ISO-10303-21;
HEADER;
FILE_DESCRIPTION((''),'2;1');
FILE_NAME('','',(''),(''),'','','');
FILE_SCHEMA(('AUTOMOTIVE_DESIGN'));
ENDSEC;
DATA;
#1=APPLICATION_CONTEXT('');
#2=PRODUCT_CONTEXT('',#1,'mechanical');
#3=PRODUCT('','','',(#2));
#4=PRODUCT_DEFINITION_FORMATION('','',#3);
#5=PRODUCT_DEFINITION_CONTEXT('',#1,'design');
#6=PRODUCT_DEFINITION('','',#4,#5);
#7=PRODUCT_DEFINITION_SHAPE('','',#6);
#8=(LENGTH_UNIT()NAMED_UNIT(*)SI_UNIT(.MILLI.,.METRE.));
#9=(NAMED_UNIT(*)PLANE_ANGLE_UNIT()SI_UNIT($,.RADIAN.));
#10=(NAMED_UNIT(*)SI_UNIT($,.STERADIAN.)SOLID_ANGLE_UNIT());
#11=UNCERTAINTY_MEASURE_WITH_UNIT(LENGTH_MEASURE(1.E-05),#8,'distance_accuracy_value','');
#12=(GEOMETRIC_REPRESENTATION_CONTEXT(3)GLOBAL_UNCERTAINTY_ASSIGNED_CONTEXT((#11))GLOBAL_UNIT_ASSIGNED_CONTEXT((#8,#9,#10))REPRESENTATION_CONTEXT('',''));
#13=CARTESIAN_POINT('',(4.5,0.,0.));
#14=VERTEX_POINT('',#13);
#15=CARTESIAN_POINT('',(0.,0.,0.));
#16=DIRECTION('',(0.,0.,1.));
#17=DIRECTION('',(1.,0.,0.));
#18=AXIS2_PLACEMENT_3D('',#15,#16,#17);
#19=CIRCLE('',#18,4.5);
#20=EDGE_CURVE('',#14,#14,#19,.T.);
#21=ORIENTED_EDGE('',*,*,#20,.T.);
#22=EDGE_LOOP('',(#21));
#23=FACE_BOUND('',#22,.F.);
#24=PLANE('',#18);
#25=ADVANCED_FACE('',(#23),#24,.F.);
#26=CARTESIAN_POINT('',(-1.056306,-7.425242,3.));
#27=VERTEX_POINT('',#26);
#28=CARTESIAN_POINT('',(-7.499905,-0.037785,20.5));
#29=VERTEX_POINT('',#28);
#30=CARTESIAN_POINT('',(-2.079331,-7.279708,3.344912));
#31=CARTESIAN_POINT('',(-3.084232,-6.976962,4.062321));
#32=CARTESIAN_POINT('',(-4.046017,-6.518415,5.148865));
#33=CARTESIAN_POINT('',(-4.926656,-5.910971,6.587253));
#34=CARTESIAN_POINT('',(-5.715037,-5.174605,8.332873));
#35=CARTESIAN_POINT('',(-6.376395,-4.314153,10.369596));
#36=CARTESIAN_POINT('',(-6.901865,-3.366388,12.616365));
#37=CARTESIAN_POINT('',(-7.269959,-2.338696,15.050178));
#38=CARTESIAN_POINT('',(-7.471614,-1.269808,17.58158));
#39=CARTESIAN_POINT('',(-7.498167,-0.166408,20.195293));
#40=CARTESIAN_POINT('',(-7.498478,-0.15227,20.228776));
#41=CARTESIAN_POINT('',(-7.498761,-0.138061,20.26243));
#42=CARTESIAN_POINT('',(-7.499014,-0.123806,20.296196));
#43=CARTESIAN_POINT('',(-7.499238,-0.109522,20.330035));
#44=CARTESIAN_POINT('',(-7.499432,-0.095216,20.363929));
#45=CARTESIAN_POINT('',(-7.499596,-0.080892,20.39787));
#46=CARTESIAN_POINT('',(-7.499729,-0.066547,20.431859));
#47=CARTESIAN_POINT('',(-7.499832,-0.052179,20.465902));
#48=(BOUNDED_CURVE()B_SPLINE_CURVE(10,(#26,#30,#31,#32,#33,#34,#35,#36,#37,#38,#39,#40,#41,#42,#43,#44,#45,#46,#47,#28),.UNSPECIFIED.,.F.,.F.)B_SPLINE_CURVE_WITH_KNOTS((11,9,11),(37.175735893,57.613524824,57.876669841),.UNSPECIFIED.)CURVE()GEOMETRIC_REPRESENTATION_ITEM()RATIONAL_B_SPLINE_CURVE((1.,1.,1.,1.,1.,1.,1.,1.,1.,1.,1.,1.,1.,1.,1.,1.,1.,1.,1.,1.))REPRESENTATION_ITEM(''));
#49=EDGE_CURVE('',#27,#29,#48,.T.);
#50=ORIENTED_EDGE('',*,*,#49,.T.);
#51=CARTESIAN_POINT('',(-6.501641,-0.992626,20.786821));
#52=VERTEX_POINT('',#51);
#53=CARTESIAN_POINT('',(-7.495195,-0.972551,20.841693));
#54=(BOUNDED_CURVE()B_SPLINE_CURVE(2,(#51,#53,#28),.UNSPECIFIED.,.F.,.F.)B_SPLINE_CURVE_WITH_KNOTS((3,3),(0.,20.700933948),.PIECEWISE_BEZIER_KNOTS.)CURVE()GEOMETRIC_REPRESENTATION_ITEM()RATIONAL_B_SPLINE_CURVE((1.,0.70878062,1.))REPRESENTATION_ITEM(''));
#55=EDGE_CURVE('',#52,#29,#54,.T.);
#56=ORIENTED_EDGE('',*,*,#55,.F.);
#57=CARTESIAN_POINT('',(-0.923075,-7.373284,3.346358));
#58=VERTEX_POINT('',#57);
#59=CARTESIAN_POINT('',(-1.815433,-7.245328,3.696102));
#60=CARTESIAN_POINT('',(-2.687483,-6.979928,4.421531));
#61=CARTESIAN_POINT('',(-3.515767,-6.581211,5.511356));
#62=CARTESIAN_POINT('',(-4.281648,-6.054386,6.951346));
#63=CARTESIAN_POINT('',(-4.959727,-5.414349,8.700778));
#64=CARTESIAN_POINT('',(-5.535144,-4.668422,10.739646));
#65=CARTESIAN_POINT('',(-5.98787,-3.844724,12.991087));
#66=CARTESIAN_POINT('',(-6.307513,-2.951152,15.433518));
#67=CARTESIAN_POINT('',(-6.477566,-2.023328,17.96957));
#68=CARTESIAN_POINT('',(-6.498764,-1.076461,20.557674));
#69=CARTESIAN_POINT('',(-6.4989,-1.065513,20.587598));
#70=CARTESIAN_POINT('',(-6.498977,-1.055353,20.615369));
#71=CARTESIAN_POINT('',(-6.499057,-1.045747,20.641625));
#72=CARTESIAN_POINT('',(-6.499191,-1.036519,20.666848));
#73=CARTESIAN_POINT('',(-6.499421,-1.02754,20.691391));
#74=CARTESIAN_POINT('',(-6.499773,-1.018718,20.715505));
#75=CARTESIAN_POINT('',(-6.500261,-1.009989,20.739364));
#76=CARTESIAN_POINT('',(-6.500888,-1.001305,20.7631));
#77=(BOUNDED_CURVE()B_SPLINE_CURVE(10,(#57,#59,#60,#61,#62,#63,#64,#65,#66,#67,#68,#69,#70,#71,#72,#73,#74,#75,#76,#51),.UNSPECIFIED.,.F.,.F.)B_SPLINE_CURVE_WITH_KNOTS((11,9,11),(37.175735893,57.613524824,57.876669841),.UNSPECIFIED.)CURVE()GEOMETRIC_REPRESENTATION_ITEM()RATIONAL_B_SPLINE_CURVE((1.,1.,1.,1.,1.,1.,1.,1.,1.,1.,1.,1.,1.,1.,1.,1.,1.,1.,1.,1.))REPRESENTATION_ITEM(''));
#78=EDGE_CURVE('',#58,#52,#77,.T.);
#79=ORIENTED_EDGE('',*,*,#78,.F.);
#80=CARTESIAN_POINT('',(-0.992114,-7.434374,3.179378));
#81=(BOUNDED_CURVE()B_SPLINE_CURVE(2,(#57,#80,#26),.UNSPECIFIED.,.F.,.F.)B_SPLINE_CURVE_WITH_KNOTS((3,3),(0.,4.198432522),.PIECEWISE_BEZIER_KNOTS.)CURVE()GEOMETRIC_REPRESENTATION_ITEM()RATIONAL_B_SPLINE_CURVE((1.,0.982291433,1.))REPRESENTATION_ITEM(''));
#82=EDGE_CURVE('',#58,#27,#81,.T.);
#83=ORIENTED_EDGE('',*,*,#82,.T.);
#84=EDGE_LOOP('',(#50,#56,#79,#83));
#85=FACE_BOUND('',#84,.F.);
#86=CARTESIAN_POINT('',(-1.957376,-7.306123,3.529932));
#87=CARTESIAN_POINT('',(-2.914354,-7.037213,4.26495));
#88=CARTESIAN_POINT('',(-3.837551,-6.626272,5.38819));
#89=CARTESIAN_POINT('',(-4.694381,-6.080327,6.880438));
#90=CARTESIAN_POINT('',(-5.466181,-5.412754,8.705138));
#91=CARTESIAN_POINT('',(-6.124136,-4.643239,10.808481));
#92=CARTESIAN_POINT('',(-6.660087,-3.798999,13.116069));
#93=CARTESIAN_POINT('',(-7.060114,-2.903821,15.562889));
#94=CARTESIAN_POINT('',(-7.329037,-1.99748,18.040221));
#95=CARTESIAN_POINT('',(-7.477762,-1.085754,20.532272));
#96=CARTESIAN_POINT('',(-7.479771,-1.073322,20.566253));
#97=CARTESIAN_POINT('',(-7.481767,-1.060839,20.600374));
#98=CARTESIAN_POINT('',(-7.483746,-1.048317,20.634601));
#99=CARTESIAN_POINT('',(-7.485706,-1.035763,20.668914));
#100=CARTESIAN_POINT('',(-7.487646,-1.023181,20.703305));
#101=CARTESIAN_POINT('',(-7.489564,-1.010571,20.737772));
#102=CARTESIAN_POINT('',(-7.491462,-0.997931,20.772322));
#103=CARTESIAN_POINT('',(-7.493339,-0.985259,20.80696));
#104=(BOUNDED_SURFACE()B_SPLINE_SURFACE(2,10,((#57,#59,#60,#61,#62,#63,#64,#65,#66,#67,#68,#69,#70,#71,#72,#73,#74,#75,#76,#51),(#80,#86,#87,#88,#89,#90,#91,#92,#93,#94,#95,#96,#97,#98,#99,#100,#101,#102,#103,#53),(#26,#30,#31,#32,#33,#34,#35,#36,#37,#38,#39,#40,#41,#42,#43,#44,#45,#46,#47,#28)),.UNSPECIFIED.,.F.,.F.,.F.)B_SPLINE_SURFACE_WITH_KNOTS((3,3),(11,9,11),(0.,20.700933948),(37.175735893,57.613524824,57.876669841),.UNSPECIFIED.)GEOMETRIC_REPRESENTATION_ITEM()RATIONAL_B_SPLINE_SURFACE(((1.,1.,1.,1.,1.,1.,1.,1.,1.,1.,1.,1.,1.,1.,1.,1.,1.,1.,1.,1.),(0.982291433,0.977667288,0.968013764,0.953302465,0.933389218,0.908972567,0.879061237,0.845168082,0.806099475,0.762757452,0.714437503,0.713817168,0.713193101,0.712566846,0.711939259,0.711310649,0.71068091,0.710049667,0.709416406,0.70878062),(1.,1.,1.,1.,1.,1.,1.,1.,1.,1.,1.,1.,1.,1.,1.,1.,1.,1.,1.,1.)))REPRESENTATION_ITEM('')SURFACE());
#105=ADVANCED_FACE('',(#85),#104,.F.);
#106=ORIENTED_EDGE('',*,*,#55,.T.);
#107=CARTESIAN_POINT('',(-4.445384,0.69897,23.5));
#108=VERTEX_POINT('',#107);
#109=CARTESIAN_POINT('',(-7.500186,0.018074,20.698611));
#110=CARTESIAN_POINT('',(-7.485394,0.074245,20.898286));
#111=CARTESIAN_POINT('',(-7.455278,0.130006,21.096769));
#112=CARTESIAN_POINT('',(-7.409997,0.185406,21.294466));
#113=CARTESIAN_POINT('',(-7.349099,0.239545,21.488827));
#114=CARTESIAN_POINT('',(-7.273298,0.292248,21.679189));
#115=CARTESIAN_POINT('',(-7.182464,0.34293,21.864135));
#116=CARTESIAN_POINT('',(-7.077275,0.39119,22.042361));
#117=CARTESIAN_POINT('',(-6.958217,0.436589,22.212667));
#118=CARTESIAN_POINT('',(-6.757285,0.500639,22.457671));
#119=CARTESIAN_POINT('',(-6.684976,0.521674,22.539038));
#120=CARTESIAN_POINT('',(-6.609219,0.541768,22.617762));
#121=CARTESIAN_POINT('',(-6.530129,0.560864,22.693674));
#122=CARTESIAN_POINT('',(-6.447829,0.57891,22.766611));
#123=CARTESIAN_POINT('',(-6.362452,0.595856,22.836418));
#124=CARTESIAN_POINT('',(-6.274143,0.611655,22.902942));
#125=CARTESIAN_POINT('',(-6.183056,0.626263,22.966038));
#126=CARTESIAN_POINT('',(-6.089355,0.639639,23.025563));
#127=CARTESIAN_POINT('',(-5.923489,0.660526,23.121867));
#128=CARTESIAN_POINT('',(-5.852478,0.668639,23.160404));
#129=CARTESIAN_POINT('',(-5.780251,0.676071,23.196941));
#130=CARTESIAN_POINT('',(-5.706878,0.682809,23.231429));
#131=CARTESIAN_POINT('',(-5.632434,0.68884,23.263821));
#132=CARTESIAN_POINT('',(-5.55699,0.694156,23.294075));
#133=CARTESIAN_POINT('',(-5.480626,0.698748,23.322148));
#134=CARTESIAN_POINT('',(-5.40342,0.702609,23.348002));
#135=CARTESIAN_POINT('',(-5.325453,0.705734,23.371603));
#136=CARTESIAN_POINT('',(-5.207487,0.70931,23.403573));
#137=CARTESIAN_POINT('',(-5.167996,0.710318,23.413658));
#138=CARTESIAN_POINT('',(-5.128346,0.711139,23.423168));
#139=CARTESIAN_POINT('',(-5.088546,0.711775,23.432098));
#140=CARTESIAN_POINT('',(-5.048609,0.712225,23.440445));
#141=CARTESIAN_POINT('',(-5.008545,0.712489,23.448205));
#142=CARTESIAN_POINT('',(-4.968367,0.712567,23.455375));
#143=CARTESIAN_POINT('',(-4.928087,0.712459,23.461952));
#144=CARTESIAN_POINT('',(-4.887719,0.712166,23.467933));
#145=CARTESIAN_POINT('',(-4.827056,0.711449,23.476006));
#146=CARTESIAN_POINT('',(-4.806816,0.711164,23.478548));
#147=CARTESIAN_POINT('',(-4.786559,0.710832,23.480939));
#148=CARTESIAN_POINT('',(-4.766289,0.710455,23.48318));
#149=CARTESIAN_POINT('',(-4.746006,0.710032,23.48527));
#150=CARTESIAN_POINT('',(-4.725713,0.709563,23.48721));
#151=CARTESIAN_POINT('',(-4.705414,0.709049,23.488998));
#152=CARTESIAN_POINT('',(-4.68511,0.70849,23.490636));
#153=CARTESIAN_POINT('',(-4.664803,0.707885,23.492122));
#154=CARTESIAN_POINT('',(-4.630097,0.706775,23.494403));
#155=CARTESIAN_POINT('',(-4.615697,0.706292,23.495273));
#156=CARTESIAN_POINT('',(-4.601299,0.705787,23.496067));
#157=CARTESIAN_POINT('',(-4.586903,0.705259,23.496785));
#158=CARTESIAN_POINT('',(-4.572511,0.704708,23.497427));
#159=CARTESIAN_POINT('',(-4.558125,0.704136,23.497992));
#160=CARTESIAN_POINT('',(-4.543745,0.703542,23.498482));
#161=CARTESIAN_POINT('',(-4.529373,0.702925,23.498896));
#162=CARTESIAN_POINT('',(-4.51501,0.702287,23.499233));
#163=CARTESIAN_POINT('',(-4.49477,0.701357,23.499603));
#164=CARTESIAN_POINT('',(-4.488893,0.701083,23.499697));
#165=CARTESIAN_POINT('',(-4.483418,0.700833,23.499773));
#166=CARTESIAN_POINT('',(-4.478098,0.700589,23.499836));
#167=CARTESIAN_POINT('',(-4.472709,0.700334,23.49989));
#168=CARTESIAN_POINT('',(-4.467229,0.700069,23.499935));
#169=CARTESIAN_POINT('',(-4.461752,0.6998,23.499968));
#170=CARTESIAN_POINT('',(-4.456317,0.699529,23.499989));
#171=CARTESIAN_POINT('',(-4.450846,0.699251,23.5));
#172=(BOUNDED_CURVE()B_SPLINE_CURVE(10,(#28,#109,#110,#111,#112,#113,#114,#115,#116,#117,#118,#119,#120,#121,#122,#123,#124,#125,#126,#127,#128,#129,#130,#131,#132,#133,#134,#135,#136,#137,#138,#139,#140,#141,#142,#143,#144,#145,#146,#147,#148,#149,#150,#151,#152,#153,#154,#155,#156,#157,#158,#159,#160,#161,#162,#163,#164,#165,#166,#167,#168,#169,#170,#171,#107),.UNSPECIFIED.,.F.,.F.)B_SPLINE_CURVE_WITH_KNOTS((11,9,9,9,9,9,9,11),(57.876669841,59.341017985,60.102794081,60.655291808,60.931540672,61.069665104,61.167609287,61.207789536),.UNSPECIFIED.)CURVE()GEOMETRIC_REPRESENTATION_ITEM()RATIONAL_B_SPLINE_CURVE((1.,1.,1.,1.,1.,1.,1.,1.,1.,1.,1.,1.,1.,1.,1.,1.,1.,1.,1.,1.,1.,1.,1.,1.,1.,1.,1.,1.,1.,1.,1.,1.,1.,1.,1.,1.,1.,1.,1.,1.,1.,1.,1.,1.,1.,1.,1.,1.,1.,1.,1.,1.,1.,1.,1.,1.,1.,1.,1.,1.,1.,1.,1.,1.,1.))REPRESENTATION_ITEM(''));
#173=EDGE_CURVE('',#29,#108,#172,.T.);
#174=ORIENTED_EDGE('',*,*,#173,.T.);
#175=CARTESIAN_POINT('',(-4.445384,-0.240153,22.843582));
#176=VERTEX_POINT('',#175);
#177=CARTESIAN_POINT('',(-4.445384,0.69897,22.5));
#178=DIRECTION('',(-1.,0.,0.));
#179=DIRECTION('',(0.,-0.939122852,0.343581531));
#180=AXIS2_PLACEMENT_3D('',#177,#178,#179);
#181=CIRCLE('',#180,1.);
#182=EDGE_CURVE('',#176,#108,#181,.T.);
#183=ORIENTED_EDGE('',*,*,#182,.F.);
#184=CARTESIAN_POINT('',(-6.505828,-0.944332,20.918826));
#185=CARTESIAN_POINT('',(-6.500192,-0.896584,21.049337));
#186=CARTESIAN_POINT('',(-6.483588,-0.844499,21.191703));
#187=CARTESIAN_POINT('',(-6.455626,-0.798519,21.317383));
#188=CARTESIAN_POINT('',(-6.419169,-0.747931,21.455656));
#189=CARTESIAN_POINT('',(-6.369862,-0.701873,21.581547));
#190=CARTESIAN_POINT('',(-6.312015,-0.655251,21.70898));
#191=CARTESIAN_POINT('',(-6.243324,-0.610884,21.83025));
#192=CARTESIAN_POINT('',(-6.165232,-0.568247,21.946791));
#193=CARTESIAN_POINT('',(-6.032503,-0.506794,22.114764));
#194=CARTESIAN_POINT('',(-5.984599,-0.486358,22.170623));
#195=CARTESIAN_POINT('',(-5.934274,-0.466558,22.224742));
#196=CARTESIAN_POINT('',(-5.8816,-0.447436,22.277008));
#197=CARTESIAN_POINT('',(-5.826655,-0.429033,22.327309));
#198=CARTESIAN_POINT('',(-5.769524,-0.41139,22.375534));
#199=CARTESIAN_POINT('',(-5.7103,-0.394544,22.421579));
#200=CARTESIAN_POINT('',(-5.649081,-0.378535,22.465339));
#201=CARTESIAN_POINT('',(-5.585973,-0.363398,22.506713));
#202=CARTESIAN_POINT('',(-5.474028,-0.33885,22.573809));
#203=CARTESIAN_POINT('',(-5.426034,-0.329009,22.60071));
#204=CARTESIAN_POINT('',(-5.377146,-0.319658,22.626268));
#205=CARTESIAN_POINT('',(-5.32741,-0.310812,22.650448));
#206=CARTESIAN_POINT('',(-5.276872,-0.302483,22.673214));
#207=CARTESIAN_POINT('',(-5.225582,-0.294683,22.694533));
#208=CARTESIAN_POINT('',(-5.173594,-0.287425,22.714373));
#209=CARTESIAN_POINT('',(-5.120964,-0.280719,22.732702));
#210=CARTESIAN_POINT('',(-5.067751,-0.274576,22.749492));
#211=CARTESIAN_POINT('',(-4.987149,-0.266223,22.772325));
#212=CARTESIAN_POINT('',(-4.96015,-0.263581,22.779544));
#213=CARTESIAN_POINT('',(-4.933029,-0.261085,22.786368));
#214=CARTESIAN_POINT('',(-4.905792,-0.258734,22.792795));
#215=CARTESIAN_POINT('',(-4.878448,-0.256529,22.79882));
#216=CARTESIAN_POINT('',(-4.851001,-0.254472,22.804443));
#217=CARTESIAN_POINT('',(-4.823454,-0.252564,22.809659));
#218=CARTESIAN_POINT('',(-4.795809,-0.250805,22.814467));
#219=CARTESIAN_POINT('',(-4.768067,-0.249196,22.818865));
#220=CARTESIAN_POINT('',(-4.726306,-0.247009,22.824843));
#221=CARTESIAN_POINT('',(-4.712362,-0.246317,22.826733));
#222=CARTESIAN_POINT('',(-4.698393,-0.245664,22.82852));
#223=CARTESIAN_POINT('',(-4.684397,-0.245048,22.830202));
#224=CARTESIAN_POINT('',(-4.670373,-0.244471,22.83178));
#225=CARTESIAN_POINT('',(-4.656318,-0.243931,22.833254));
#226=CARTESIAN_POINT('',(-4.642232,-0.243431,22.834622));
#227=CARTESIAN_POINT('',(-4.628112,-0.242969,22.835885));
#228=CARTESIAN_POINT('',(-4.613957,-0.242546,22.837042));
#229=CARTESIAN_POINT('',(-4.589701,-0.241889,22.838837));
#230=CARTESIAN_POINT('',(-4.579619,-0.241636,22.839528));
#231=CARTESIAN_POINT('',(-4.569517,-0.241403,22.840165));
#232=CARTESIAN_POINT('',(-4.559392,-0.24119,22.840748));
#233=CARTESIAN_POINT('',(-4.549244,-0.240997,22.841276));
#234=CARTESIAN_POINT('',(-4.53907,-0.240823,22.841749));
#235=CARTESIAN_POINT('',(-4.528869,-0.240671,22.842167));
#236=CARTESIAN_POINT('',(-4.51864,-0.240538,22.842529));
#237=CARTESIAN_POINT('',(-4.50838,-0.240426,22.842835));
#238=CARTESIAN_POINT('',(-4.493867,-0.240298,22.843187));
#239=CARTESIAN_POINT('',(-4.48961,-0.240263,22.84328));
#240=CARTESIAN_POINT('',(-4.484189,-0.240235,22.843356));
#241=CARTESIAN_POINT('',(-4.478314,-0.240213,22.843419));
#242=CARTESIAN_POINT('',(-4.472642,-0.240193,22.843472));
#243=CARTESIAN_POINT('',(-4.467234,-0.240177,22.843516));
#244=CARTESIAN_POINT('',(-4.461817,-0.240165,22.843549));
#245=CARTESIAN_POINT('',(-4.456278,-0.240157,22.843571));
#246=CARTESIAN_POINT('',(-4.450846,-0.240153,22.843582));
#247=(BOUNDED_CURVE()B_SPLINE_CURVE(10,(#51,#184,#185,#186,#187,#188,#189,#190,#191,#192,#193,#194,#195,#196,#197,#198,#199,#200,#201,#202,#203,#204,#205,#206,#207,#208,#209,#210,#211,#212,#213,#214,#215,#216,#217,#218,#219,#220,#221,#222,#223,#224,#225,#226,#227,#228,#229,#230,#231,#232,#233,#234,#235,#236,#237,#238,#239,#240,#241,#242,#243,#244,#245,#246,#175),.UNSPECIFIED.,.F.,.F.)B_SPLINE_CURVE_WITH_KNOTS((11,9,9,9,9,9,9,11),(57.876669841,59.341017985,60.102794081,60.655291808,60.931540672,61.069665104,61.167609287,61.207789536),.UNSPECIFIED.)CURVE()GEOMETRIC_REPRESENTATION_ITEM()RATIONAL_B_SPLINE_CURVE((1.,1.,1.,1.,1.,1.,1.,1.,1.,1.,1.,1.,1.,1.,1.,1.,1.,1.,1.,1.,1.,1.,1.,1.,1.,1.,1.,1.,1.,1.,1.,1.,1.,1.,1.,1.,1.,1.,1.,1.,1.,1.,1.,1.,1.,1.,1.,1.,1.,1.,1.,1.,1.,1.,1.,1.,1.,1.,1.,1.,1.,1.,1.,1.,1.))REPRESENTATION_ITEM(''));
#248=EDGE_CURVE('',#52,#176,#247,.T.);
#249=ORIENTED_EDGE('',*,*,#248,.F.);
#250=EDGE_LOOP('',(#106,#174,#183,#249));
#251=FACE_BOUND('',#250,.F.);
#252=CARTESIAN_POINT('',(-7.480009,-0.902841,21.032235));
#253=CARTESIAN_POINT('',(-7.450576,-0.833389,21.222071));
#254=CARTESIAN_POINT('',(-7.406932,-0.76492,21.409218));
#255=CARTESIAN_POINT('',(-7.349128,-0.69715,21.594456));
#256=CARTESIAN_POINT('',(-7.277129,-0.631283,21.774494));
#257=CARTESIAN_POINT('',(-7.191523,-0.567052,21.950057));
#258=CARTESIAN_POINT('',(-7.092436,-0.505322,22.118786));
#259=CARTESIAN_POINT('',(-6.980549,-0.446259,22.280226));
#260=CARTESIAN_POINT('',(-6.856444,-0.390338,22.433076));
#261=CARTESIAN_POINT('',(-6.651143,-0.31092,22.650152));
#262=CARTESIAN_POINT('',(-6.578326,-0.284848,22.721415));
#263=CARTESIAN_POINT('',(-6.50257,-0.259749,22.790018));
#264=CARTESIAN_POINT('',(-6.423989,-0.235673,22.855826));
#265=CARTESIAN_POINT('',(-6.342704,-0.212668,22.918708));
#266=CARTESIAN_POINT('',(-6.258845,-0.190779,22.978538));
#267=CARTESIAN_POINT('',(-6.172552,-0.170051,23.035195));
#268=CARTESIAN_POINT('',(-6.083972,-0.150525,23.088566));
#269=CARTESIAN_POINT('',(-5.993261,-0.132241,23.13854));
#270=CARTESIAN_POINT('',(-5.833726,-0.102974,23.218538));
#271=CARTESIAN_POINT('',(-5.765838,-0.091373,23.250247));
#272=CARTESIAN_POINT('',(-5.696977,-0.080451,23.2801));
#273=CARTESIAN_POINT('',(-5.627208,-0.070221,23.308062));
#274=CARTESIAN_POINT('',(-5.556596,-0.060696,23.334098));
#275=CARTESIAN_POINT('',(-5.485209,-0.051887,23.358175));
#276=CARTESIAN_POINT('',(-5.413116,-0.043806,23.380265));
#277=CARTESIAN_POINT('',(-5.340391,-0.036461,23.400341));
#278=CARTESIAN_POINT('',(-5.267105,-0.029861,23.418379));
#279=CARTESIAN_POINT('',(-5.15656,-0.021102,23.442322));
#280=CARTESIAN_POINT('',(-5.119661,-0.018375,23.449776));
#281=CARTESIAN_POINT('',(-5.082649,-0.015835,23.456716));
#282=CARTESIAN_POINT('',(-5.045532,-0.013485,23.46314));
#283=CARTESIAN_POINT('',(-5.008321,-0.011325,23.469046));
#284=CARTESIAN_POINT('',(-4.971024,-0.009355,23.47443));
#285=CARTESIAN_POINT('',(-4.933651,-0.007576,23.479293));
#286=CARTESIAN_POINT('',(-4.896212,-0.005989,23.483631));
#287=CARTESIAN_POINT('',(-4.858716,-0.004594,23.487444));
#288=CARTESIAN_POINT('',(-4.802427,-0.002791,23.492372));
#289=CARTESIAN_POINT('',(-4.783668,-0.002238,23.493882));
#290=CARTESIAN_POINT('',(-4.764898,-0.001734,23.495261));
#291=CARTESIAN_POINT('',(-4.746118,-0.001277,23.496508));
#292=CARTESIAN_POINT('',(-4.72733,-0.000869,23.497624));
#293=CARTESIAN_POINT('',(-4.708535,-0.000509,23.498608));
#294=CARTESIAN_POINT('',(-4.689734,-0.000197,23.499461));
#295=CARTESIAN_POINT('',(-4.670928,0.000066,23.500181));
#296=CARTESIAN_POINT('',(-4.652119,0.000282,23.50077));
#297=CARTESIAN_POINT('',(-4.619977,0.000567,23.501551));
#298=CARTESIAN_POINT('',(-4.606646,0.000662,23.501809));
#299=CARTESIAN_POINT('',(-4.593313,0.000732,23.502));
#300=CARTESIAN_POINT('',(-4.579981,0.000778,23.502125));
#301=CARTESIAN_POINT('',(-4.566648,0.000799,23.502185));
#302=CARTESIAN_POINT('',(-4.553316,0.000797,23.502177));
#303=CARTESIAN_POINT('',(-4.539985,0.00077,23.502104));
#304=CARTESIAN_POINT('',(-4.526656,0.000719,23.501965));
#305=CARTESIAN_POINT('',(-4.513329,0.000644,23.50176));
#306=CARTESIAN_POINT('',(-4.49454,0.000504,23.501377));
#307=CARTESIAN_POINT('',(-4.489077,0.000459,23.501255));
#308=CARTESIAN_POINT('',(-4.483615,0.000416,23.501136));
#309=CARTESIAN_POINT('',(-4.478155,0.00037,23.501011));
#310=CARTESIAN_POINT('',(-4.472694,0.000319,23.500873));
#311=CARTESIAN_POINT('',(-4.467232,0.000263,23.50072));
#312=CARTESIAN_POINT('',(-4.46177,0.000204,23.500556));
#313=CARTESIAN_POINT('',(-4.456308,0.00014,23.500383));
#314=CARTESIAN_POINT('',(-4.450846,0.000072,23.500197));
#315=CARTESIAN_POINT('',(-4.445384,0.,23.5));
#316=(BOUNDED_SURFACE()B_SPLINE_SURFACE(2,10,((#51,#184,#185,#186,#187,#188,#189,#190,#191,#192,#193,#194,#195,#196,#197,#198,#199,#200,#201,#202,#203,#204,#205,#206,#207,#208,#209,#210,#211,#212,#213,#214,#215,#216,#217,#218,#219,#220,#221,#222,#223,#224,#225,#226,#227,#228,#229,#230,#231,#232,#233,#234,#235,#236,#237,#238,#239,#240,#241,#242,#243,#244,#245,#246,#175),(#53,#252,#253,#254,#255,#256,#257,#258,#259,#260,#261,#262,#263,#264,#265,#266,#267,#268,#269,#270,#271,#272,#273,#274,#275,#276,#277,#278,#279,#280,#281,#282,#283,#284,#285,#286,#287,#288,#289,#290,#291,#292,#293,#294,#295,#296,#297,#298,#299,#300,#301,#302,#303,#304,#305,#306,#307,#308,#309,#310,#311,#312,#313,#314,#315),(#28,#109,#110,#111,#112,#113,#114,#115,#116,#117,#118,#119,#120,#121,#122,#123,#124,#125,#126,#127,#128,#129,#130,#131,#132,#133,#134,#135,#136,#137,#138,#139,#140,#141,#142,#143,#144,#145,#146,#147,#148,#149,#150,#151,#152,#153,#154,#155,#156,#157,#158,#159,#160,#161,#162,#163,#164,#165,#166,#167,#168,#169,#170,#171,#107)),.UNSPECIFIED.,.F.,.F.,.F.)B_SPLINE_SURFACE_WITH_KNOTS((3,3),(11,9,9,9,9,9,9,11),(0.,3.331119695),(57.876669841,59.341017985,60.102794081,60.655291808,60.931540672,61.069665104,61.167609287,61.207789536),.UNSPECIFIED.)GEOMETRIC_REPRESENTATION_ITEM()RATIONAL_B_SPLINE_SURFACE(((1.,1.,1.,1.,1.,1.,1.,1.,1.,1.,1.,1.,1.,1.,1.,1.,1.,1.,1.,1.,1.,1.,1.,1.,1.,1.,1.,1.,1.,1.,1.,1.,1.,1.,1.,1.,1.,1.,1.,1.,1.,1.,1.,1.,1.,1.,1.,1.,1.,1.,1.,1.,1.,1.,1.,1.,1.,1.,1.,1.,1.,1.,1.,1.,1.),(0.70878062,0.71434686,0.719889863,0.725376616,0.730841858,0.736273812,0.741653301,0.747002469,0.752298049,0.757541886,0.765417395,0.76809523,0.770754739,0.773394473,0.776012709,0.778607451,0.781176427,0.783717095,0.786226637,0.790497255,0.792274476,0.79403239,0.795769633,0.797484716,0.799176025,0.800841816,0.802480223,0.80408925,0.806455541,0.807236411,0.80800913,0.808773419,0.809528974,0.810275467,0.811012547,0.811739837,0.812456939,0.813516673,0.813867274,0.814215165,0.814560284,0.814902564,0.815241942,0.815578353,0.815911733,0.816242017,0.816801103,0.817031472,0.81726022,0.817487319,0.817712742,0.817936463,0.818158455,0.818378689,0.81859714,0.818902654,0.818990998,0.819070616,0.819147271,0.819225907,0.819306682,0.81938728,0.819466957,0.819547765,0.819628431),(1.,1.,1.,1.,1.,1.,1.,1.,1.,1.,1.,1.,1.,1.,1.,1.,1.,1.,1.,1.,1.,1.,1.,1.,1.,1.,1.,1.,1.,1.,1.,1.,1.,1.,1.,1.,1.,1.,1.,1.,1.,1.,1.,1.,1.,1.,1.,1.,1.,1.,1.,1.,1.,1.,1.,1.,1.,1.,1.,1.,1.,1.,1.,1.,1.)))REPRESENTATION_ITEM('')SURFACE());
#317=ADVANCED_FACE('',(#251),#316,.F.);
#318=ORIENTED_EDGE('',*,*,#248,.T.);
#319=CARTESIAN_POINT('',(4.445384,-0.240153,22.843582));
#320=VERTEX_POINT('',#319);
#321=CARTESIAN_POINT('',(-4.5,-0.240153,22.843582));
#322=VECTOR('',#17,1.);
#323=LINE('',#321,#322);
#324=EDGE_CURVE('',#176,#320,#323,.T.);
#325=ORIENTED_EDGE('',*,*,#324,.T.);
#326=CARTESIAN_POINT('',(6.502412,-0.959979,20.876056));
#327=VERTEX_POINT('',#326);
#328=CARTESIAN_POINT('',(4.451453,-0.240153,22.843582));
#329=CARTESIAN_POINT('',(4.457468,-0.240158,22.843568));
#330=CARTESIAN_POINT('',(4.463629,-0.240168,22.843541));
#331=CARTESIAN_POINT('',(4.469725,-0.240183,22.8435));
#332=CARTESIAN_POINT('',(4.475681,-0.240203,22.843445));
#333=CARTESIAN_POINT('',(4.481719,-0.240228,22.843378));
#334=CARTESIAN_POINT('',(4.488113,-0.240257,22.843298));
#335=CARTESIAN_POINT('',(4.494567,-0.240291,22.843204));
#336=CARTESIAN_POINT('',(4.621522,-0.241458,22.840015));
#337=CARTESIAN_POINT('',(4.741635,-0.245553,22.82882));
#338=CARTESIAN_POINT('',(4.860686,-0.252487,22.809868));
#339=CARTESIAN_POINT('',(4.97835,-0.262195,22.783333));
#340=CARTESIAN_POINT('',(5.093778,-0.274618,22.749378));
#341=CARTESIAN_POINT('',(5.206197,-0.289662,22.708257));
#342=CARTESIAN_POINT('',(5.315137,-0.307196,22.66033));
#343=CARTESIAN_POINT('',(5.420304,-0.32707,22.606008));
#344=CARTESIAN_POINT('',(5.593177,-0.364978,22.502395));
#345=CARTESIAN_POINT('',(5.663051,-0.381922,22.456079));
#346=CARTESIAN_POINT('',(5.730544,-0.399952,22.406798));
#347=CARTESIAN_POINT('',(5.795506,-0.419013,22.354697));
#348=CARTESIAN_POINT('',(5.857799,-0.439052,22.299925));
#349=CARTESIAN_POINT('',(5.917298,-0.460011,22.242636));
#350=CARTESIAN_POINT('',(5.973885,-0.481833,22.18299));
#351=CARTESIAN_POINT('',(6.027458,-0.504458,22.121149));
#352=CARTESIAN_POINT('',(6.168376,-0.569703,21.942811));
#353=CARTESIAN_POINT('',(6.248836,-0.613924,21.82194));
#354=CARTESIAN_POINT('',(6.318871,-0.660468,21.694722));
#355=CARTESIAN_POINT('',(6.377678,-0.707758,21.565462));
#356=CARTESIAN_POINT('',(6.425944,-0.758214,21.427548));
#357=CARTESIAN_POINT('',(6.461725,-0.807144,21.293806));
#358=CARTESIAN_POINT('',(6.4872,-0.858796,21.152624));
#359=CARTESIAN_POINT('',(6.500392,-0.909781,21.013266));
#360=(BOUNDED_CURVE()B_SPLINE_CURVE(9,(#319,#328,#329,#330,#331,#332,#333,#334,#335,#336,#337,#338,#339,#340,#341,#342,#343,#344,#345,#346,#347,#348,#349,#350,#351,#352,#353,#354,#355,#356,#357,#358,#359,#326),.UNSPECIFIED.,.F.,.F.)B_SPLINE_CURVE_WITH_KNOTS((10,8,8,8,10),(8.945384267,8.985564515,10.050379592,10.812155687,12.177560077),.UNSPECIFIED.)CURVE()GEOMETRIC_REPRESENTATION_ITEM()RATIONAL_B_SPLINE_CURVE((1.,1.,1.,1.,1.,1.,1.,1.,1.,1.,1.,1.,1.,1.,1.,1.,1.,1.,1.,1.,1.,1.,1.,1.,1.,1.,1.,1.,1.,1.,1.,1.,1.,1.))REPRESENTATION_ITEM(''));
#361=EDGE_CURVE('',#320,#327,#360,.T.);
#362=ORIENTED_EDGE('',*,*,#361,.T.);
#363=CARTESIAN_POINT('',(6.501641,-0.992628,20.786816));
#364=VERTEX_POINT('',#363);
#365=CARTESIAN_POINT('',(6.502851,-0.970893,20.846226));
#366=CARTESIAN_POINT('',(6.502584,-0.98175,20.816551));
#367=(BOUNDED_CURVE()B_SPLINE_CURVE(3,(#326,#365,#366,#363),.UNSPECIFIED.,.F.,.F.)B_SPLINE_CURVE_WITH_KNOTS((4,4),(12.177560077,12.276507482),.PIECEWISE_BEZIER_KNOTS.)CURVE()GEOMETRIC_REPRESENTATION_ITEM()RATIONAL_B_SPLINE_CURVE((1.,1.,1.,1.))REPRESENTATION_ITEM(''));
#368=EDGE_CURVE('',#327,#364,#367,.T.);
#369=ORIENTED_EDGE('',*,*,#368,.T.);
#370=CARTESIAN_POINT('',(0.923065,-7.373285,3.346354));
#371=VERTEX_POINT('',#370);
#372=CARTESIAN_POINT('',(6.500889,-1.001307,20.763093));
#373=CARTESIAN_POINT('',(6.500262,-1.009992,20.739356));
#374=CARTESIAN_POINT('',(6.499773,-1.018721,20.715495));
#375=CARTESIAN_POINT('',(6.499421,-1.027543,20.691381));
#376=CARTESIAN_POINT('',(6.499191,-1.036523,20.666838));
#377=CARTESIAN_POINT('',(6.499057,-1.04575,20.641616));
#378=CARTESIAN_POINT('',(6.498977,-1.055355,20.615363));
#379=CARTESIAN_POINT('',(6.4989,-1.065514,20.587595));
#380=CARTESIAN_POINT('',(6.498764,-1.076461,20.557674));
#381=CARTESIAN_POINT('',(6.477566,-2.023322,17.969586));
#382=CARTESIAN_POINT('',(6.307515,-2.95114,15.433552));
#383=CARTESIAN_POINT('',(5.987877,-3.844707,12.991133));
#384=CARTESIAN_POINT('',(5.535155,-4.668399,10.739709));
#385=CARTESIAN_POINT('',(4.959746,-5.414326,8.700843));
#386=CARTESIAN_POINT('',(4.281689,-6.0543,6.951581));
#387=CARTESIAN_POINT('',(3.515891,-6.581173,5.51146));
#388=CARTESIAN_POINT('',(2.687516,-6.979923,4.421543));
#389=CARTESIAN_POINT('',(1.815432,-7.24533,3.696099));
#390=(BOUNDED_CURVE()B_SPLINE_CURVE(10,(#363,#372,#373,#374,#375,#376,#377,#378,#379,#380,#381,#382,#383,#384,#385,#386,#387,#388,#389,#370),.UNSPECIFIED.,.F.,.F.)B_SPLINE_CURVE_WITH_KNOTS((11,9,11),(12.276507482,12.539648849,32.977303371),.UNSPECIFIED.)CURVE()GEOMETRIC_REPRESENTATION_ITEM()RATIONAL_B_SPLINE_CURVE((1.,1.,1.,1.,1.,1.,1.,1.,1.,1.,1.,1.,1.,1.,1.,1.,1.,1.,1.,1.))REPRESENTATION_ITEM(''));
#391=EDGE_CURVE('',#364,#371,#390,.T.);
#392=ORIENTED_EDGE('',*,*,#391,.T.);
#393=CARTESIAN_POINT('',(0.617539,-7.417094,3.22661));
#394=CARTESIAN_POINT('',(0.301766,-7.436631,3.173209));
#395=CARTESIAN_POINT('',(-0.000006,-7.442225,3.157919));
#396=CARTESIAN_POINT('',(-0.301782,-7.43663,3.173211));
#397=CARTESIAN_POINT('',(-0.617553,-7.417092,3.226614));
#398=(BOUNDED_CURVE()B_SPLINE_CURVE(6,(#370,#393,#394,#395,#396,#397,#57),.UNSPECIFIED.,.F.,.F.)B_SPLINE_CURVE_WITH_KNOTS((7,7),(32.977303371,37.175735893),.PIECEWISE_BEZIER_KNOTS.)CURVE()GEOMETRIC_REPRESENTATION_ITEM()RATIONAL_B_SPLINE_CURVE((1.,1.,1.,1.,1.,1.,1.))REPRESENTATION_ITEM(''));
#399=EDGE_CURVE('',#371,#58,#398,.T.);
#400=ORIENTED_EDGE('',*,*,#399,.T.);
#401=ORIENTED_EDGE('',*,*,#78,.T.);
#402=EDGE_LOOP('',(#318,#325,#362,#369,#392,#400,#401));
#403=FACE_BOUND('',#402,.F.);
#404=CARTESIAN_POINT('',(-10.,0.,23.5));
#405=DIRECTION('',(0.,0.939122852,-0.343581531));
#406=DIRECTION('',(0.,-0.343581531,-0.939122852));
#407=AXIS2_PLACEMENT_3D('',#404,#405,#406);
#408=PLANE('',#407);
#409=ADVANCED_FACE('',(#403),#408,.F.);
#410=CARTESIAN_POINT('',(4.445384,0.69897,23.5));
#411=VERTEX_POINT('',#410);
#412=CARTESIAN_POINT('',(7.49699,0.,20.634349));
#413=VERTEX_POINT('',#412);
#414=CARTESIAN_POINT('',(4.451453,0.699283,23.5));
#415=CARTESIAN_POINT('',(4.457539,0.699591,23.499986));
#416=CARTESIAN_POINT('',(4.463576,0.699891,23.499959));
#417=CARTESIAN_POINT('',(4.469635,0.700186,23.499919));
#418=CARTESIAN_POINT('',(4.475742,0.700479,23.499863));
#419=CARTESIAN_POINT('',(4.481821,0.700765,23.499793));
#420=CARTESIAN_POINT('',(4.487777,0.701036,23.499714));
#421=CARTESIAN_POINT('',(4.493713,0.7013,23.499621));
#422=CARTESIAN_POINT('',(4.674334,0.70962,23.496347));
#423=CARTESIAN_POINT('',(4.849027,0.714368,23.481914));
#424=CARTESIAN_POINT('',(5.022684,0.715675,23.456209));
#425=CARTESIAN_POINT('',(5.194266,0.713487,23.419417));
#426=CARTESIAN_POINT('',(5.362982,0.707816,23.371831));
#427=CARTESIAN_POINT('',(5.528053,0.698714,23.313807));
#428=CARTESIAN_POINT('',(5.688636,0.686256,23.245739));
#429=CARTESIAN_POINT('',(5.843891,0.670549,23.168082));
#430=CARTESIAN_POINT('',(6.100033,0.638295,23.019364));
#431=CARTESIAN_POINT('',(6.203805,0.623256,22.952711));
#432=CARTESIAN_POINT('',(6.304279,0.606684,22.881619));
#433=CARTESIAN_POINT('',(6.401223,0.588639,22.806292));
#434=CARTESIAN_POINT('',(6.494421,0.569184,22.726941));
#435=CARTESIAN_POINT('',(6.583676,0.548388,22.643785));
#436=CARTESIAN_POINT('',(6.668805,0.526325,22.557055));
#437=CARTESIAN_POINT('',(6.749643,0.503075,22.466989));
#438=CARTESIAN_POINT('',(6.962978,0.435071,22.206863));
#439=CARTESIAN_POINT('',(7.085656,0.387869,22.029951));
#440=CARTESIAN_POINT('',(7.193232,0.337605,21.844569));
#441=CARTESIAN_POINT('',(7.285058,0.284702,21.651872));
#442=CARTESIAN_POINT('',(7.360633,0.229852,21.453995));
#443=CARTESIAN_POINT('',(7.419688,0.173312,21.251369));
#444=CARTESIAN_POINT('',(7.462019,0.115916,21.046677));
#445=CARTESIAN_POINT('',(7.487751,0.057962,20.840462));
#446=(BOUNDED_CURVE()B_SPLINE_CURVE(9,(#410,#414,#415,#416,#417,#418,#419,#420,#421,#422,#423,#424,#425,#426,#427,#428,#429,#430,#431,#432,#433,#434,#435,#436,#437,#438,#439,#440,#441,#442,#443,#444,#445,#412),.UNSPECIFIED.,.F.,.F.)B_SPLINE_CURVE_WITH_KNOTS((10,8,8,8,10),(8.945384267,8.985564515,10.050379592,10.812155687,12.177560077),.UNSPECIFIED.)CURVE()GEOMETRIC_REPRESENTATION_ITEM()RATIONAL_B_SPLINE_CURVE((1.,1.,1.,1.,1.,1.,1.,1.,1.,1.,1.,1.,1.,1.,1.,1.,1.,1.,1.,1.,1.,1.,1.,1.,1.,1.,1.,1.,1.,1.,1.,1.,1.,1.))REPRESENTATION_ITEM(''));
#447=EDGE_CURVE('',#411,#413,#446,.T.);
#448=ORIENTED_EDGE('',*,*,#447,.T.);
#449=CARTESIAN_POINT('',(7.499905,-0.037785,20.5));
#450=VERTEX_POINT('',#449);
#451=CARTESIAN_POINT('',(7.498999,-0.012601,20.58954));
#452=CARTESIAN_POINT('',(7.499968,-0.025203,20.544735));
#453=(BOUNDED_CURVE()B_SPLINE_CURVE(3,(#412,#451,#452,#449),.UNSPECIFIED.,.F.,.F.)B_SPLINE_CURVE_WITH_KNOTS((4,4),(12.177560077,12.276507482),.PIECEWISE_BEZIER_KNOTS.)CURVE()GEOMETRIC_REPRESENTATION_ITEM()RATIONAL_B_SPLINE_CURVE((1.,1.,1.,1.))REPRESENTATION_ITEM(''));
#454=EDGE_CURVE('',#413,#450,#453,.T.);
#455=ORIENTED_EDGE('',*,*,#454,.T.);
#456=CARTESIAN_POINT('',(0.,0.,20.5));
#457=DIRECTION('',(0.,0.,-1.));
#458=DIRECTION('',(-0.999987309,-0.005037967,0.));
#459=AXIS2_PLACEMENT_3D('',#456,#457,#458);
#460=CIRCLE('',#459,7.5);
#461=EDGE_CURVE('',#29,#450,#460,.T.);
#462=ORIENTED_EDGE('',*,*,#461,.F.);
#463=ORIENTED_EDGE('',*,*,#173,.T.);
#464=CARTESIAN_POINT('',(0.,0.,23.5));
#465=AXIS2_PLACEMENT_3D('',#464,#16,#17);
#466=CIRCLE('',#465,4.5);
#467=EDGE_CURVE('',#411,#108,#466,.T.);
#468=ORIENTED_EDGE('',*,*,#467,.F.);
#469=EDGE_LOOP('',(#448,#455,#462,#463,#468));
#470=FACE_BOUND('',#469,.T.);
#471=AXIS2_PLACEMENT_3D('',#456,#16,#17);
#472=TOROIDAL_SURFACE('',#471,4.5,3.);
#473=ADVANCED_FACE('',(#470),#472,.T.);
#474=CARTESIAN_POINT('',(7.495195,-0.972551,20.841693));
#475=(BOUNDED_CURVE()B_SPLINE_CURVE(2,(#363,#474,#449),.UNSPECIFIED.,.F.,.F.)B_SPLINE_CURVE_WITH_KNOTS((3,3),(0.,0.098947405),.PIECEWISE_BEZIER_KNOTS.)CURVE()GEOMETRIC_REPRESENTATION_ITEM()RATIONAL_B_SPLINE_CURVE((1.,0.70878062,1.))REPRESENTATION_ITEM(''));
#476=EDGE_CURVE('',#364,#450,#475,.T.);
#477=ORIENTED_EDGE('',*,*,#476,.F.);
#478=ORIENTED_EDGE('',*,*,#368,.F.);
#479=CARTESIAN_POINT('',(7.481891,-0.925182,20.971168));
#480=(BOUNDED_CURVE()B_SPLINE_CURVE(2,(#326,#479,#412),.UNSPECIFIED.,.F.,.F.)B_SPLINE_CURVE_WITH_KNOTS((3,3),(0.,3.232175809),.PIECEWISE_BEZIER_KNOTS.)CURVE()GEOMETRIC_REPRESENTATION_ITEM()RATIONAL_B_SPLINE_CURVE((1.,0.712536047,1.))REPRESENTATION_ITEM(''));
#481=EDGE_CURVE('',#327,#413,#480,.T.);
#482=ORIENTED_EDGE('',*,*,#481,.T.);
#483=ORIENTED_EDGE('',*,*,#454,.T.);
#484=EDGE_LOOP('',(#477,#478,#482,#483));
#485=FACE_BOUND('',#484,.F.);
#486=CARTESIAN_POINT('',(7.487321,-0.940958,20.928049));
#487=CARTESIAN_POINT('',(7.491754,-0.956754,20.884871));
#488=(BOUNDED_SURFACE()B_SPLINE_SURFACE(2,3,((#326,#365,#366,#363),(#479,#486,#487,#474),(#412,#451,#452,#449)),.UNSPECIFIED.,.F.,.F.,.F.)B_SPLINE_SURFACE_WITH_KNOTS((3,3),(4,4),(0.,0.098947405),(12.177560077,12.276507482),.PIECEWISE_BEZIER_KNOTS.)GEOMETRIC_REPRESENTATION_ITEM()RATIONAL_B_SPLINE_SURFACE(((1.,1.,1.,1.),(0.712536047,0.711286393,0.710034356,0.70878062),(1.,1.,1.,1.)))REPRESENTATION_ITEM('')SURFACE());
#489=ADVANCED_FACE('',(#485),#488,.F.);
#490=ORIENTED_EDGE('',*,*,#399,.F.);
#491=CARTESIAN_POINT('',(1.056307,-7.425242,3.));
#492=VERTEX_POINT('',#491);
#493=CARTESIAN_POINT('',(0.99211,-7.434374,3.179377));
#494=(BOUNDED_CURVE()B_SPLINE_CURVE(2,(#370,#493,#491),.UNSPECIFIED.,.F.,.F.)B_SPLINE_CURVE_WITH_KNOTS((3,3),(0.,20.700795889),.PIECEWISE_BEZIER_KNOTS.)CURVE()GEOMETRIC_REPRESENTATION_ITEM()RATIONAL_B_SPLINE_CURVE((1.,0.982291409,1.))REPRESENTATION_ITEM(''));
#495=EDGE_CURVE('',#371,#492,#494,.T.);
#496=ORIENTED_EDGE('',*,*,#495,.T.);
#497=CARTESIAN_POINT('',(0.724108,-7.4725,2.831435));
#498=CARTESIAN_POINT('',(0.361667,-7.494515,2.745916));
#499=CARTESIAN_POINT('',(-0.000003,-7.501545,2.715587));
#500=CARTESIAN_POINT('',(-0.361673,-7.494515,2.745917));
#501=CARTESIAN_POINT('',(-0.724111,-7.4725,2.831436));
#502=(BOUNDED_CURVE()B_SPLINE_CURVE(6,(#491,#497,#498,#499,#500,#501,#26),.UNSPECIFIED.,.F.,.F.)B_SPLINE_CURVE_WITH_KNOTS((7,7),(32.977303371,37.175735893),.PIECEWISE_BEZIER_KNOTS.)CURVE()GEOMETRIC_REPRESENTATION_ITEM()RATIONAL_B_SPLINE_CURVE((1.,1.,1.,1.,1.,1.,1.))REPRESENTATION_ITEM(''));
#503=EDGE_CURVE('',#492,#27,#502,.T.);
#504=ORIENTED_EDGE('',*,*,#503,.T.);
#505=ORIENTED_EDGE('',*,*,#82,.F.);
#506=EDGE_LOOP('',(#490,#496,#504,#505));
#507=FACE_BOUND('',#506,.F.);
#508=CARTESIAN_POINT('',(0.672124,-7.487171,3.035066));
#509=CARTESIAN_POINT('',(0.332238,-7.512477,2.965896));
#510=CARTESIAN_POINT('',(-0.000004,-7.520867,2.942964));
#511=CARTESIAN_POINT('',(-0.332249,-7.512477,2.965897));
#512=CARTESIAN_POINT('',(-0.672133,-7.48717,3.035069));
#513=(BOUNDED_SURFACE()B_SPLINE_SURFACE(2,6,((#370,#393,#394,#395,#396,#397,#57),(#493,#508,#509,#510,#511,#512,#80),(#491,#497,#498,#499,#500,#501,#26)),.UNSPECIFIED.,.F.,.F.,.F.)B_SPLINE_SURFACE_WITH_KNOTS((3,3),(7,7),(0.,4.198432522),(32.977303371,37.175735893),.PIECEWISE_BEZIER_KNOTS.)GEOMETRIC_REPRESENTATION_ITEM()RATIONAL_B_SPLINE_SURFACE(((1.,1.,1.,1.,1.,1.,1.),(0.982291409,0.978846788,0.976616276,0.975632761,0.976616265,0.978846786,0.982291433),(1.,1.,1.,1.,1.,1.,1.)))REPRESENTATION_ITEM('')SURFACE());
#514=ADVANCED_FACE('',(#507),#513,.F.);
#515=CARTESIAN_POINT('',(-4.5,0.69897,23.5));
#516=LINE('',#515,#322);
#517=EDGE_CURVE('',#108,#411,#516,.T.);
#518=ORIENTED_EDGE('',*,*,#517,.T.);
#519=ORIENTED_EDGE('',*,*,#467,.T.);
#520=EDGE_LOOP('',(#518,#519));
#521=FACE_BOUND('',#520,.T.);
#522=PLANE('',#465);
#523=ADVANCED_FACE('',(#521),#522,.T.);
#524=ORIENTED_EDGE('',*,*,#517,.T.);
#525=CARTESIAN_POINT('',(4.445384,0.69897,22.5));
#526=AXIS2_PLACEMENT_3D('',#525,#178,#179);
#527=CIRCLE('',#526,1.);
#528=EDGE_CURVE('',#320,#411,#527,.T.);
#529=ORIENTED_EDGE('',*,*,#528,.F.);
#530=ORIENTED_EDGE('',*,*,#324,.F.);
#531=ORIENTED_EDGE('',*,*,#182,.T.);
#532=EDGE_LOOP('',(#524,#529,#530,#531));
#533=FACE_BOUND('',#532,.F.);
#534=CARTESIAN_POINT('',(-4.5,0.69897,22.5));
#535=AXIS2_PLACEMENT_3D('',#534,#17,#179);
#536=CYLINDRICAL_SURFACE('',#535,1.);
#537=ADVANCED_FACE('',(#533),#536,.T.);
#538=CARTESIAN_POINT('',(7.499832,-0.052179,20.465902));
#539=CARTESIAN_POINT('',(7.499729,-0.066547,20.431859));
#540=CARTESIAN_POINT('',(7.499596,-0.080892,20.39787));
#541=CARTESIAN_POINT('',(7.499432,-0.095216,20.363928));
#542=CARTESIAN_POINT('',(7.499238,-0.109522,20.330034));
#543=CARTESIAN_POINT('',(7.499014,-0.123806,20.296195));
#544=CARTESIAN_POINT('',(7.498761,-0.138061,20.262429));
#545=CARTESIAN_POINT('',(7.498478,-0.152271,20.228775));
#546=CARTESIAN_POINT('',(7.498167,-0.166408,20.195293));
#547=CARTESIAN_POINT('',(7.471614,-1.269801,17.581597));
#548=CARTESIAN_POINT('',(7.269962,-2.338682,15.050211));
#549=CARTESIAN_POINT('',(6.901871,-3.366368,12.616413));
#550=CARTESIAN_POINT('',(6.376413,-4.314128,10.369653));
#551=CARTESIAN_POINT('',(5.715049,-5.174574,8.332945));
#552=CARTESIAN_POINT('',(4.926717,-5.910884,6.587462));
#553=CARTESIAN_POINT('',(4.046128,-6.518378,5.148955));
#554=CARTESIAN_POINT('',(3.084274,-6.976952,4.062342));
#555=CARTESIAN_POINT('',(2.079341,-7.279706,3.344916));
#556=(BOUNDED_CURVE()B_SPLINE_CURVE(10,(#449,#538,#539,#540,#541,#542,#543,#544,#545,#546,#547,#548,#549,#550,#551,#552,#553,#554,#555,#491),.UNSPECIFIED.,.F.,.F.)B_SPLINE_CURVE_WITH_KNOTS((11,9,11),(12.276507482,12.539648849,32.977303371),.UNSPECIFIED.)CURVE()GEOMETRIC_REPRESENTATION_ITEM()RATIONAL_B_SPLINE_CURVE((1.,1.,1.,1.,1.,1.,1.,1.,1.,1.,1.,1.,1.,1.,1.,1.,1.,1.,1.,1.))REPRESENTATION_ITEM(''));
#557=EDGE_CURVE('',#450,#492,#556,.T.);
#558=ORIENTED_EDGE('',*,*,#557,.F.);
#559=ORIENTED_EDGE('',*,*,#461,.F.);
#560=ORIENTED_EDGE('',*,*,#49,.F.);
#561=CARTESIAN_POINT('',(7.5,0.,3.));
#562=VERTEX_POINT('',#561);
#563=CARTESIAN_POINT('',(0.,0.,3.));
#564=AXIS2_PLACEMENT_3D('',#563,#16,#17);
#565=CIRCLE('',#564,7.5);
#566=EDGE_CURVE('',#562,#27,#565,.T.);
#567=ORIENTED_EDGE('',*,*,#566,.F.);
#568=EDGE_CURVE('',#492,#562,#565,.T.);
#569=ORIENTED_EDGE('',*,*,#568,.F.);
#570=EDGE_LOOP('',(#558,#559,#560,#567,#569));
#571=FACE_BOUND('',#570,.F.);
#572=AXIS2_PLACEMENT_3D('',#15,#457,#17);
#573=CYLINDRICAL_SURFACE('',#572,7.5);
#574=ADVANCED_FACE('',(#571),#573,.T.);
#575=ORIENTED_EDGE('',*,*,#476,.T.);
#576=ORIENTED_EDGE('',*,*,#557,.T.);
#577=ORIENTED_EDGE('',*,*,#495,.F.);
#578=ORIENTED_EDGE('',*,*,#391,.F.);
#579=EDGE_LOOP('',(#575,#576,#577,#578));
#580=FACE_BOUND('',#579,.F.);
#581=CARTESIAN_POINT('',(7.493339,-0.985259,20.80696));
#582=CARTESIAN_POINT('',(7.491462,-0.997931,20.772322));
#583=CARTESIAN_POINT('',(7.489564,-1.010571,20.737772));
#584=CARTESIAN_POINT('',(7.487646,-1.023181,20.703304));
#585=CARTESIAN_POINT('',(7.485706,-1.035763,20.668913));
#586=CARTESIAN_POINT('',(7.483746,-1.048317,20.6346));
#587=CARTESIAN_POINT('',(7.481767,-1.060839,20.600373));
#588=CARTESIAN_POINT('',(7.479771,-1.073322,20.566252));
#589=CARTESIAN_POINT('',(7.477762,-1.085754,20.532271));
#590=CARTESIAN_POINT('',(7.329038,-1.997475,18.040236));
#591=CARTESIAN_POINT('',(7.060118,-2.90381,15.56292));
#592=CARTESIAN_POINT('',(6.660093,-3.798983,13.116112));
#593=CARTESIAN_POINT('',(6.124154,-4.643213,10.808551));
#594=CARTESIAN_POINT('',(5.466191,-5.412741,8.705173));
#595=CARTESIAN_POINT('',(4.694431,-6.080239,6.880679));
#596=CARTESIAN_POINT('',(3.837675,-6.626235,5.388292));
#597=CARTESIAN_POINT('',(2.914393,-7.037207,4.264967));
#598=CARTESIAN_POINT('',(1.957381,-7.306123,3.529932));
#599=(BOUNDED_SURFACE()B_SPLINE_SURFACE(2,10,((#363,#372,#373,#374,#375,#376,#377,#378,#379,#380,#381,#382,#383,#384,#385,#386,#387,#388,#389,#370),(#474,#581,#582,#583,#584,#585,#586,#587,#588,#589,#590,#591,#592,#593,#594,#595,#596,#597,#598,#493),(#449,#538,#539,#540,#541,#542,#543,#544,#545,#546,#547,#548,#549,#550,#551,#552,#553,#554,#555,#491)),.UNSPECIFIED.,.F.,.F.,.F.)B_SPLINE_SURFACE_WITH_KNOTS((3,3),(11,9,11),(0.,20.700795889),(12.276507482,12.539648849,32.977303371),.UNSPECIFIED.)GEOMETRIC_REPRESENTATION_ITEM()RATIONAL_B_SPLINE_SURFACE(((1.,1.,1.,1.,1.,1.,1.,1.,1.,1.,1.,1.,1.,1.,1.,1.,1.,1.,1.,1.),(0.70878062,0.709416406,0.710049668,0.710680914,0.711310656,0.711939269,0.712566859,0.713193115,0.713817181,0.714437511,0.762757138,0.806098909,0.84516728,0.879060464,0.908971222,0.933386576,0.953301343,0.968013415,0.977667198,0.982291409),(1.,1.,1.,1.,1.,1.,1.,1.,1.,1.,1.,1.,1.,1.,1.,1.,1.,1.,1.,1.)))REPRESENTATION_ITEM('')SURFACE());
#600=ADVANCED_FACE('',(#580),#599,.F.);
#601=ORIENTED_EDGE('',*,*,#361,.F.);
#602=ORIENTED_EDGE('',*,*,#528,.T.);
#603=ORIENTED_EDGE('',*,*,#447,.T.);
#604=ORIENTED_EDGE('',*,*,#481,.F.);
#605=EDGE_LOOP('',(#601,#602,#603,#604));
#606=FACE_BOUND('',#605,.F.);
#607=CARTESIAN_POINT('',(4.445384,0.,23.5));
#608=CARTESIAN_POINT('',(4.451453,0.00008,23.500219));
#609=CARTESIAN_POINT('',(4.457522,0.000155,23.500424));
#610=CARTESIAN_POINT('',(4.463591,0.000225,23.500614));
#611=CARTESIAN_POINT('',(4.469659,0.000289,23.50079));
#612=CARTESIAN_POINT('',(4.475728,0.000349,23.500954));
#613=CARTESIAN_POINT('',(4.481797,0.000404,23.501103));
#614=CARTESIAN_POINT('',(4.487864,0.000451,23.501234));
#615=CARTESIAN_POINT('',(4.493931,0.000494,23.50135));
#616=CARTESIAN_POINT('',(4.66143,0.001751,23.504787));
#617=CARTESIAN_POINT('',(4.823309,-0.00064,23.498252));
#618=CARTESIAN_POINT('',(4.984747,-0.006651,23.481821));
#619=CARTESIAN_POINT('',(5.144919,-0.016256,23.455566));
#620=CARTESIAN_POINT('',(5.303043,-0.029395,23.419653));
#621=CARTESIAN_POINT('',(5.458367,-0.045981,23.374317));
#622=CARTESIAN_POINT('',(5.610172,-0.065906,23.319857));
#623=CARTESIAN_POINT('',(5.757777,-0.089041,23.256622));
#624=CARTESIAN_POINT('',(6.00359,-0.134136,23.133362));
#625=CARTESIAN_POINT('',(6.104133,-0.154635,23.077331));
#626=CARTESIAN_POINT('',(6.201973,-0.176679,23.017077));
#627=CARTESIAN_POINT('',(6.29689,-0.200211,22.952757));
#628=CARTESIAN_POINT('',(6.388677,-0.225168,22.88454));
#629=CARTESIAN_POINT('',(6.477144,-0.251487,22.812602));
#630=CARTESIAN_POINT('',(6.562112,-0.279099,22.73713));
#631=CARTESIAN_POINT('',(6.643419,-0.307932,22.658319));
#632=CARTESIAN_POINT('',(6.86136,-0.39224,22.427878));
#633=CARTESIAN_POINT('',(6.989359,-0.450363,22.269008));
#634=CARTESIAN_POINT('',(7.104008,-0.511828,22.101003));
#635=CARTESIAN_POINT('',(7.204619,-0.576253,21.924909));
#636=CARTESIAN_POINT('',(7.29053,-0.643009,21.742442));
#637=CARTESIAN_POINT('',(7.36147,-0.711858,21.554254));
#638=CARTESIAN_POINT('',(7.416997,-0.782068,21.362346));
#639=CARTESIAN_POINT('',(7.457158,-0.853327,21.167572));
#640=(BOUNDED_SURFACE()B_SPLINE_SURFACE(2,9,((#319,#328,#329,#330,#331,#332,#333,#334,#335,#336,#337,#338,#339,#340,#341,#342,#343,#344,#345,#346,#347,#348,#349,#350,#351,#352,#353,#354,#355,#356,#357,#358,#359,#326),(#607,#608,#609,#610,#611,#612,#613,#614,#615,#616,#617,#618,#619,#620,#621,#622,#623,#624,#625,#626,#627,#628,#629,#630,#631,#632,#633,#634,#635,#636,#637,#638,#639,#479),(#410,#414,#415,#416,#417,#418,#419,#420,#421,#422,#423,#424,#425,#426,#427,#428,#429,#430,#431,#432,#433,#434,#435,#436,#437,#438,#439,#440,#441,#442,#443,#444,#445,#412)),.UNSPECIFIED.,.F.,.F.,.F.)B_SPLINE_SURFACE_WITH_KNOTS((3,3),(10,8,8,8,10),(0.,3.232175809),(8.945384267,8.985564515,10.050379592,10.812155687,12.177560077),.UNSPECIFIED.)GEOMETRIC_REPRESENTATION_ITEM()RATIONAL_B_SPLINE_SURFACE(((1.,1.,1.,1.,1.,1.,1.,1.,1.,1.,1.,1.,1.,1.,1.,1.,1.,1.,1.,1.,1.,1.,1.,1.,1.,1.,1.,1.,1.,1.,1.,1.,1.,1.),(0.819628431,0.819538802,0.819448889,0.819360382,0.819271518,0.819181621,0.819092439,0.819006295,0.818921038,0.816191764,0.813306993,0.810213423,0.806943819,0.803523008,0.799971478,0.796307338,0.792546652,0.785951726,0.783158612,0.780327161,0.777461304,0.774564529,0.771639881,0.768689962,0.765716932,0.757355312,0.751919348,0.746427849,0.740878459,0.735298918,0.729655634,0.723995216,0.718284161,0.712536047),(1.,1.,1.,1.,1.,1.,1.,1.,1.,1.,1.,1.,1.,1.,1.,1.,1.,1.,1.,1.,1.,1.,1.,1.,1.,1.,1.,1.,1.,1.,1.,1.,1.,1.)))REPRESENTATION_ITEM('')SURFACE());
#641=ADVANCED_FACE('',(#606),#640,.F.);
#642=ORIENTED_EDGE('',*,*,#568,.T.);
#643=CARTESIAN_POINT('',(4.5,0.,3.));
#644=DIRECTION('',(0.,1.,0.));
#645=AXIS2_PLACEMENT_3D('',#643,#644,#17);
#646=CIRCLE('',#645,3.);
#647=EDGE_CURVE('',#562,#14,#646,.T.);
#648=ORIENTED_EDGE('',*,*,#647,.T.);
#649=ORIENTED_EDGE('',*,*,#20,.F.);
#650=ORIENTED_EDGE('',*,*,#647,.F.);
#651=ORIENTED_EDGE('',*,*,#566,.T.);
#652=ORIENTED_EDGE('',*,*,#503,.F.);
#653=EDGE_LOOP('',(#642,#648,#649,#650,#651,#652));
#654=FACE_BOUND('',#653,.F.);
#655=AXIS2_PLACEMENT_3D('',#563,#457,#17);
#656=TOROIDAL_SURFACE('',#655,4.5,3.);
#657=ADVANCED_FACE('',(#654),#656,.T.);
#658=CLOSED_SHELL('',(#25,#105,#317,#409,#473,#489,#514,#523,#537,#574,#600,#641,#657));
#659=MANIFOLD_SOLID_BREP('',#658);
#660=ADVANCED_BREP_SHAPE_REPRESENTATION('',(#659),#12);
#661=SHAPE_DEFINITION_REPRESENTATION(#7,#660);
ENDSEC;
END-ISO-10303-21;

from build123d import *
from build123d.topology import SkipClean

# Parameters (mm, degrees)
SKETCH2_R               = 7.5
BOSS_EXTRUDE1_DEPTH     = 23.5
FILLET1_R               = 3
CUT_EXTRUDE1_DEPTH      = 10
CUT_EXTRUDE1_DEPTH_BACK = 10
FILLET2_R               = 1


with BuildPart() as part:
    # Sketch2 → Boss-Extrude1 (new body)
    with BuildSketch(Plane.XY):
        Circle(SKETCH2_R)
    extrude(amount=BOSS_EXTRUDE1_DEPTH)

    # Fillet1
    fillet1_edges = [part.edges().sort_by_distance(p)[0] for p in [
        (-7.5, 0, 0),
        (-7.5, 0, 23.5),
    ]]
    fillet(fillet1_edges, radius=FILLET1_R)

    # Sketch3 → Cut-Extrude1 (cut, two sides: drawn at the far end of the back side and taken through both)
    with SkipClean():  # the faces are left unmerged after this step: merging them gives an invalid solid
        with BuildSketch(Plane(origin=(0, 0, 0), x_dir=(0, 0, -1), z_dir=(1, 0, 0)).offset(-CUT_EXTRUDE1_DEPTH_BACK)):
            Polygon((-23.5, 0), (-3, -7.5), (-3, -10.4048104), (-23.5, -10.4048104), align=None)
        extrude(amount=CUT_EXTRUDE1_DEPTH + CUT_EXTRUDE1_DEPTH_BACK, mode=Mode.SUBTRACT)

    # Fillet2
    fillet2_edges = [part.edges().sort_by_distance(p)[0] for p in [
        (0, 0, 23.5),
        (5.846040718, -4.698277123, 10.658042531),
        (6.641924558, -0.332189691, 22.592014844),
        (-6.641924558, -0.332189691, 22.592014844),
        (-5.846040728, -4.69827711, 10.658042566),
    ]]
    fillet(fillet2_edges, radius=FILLET2_R)


solid = part.part
